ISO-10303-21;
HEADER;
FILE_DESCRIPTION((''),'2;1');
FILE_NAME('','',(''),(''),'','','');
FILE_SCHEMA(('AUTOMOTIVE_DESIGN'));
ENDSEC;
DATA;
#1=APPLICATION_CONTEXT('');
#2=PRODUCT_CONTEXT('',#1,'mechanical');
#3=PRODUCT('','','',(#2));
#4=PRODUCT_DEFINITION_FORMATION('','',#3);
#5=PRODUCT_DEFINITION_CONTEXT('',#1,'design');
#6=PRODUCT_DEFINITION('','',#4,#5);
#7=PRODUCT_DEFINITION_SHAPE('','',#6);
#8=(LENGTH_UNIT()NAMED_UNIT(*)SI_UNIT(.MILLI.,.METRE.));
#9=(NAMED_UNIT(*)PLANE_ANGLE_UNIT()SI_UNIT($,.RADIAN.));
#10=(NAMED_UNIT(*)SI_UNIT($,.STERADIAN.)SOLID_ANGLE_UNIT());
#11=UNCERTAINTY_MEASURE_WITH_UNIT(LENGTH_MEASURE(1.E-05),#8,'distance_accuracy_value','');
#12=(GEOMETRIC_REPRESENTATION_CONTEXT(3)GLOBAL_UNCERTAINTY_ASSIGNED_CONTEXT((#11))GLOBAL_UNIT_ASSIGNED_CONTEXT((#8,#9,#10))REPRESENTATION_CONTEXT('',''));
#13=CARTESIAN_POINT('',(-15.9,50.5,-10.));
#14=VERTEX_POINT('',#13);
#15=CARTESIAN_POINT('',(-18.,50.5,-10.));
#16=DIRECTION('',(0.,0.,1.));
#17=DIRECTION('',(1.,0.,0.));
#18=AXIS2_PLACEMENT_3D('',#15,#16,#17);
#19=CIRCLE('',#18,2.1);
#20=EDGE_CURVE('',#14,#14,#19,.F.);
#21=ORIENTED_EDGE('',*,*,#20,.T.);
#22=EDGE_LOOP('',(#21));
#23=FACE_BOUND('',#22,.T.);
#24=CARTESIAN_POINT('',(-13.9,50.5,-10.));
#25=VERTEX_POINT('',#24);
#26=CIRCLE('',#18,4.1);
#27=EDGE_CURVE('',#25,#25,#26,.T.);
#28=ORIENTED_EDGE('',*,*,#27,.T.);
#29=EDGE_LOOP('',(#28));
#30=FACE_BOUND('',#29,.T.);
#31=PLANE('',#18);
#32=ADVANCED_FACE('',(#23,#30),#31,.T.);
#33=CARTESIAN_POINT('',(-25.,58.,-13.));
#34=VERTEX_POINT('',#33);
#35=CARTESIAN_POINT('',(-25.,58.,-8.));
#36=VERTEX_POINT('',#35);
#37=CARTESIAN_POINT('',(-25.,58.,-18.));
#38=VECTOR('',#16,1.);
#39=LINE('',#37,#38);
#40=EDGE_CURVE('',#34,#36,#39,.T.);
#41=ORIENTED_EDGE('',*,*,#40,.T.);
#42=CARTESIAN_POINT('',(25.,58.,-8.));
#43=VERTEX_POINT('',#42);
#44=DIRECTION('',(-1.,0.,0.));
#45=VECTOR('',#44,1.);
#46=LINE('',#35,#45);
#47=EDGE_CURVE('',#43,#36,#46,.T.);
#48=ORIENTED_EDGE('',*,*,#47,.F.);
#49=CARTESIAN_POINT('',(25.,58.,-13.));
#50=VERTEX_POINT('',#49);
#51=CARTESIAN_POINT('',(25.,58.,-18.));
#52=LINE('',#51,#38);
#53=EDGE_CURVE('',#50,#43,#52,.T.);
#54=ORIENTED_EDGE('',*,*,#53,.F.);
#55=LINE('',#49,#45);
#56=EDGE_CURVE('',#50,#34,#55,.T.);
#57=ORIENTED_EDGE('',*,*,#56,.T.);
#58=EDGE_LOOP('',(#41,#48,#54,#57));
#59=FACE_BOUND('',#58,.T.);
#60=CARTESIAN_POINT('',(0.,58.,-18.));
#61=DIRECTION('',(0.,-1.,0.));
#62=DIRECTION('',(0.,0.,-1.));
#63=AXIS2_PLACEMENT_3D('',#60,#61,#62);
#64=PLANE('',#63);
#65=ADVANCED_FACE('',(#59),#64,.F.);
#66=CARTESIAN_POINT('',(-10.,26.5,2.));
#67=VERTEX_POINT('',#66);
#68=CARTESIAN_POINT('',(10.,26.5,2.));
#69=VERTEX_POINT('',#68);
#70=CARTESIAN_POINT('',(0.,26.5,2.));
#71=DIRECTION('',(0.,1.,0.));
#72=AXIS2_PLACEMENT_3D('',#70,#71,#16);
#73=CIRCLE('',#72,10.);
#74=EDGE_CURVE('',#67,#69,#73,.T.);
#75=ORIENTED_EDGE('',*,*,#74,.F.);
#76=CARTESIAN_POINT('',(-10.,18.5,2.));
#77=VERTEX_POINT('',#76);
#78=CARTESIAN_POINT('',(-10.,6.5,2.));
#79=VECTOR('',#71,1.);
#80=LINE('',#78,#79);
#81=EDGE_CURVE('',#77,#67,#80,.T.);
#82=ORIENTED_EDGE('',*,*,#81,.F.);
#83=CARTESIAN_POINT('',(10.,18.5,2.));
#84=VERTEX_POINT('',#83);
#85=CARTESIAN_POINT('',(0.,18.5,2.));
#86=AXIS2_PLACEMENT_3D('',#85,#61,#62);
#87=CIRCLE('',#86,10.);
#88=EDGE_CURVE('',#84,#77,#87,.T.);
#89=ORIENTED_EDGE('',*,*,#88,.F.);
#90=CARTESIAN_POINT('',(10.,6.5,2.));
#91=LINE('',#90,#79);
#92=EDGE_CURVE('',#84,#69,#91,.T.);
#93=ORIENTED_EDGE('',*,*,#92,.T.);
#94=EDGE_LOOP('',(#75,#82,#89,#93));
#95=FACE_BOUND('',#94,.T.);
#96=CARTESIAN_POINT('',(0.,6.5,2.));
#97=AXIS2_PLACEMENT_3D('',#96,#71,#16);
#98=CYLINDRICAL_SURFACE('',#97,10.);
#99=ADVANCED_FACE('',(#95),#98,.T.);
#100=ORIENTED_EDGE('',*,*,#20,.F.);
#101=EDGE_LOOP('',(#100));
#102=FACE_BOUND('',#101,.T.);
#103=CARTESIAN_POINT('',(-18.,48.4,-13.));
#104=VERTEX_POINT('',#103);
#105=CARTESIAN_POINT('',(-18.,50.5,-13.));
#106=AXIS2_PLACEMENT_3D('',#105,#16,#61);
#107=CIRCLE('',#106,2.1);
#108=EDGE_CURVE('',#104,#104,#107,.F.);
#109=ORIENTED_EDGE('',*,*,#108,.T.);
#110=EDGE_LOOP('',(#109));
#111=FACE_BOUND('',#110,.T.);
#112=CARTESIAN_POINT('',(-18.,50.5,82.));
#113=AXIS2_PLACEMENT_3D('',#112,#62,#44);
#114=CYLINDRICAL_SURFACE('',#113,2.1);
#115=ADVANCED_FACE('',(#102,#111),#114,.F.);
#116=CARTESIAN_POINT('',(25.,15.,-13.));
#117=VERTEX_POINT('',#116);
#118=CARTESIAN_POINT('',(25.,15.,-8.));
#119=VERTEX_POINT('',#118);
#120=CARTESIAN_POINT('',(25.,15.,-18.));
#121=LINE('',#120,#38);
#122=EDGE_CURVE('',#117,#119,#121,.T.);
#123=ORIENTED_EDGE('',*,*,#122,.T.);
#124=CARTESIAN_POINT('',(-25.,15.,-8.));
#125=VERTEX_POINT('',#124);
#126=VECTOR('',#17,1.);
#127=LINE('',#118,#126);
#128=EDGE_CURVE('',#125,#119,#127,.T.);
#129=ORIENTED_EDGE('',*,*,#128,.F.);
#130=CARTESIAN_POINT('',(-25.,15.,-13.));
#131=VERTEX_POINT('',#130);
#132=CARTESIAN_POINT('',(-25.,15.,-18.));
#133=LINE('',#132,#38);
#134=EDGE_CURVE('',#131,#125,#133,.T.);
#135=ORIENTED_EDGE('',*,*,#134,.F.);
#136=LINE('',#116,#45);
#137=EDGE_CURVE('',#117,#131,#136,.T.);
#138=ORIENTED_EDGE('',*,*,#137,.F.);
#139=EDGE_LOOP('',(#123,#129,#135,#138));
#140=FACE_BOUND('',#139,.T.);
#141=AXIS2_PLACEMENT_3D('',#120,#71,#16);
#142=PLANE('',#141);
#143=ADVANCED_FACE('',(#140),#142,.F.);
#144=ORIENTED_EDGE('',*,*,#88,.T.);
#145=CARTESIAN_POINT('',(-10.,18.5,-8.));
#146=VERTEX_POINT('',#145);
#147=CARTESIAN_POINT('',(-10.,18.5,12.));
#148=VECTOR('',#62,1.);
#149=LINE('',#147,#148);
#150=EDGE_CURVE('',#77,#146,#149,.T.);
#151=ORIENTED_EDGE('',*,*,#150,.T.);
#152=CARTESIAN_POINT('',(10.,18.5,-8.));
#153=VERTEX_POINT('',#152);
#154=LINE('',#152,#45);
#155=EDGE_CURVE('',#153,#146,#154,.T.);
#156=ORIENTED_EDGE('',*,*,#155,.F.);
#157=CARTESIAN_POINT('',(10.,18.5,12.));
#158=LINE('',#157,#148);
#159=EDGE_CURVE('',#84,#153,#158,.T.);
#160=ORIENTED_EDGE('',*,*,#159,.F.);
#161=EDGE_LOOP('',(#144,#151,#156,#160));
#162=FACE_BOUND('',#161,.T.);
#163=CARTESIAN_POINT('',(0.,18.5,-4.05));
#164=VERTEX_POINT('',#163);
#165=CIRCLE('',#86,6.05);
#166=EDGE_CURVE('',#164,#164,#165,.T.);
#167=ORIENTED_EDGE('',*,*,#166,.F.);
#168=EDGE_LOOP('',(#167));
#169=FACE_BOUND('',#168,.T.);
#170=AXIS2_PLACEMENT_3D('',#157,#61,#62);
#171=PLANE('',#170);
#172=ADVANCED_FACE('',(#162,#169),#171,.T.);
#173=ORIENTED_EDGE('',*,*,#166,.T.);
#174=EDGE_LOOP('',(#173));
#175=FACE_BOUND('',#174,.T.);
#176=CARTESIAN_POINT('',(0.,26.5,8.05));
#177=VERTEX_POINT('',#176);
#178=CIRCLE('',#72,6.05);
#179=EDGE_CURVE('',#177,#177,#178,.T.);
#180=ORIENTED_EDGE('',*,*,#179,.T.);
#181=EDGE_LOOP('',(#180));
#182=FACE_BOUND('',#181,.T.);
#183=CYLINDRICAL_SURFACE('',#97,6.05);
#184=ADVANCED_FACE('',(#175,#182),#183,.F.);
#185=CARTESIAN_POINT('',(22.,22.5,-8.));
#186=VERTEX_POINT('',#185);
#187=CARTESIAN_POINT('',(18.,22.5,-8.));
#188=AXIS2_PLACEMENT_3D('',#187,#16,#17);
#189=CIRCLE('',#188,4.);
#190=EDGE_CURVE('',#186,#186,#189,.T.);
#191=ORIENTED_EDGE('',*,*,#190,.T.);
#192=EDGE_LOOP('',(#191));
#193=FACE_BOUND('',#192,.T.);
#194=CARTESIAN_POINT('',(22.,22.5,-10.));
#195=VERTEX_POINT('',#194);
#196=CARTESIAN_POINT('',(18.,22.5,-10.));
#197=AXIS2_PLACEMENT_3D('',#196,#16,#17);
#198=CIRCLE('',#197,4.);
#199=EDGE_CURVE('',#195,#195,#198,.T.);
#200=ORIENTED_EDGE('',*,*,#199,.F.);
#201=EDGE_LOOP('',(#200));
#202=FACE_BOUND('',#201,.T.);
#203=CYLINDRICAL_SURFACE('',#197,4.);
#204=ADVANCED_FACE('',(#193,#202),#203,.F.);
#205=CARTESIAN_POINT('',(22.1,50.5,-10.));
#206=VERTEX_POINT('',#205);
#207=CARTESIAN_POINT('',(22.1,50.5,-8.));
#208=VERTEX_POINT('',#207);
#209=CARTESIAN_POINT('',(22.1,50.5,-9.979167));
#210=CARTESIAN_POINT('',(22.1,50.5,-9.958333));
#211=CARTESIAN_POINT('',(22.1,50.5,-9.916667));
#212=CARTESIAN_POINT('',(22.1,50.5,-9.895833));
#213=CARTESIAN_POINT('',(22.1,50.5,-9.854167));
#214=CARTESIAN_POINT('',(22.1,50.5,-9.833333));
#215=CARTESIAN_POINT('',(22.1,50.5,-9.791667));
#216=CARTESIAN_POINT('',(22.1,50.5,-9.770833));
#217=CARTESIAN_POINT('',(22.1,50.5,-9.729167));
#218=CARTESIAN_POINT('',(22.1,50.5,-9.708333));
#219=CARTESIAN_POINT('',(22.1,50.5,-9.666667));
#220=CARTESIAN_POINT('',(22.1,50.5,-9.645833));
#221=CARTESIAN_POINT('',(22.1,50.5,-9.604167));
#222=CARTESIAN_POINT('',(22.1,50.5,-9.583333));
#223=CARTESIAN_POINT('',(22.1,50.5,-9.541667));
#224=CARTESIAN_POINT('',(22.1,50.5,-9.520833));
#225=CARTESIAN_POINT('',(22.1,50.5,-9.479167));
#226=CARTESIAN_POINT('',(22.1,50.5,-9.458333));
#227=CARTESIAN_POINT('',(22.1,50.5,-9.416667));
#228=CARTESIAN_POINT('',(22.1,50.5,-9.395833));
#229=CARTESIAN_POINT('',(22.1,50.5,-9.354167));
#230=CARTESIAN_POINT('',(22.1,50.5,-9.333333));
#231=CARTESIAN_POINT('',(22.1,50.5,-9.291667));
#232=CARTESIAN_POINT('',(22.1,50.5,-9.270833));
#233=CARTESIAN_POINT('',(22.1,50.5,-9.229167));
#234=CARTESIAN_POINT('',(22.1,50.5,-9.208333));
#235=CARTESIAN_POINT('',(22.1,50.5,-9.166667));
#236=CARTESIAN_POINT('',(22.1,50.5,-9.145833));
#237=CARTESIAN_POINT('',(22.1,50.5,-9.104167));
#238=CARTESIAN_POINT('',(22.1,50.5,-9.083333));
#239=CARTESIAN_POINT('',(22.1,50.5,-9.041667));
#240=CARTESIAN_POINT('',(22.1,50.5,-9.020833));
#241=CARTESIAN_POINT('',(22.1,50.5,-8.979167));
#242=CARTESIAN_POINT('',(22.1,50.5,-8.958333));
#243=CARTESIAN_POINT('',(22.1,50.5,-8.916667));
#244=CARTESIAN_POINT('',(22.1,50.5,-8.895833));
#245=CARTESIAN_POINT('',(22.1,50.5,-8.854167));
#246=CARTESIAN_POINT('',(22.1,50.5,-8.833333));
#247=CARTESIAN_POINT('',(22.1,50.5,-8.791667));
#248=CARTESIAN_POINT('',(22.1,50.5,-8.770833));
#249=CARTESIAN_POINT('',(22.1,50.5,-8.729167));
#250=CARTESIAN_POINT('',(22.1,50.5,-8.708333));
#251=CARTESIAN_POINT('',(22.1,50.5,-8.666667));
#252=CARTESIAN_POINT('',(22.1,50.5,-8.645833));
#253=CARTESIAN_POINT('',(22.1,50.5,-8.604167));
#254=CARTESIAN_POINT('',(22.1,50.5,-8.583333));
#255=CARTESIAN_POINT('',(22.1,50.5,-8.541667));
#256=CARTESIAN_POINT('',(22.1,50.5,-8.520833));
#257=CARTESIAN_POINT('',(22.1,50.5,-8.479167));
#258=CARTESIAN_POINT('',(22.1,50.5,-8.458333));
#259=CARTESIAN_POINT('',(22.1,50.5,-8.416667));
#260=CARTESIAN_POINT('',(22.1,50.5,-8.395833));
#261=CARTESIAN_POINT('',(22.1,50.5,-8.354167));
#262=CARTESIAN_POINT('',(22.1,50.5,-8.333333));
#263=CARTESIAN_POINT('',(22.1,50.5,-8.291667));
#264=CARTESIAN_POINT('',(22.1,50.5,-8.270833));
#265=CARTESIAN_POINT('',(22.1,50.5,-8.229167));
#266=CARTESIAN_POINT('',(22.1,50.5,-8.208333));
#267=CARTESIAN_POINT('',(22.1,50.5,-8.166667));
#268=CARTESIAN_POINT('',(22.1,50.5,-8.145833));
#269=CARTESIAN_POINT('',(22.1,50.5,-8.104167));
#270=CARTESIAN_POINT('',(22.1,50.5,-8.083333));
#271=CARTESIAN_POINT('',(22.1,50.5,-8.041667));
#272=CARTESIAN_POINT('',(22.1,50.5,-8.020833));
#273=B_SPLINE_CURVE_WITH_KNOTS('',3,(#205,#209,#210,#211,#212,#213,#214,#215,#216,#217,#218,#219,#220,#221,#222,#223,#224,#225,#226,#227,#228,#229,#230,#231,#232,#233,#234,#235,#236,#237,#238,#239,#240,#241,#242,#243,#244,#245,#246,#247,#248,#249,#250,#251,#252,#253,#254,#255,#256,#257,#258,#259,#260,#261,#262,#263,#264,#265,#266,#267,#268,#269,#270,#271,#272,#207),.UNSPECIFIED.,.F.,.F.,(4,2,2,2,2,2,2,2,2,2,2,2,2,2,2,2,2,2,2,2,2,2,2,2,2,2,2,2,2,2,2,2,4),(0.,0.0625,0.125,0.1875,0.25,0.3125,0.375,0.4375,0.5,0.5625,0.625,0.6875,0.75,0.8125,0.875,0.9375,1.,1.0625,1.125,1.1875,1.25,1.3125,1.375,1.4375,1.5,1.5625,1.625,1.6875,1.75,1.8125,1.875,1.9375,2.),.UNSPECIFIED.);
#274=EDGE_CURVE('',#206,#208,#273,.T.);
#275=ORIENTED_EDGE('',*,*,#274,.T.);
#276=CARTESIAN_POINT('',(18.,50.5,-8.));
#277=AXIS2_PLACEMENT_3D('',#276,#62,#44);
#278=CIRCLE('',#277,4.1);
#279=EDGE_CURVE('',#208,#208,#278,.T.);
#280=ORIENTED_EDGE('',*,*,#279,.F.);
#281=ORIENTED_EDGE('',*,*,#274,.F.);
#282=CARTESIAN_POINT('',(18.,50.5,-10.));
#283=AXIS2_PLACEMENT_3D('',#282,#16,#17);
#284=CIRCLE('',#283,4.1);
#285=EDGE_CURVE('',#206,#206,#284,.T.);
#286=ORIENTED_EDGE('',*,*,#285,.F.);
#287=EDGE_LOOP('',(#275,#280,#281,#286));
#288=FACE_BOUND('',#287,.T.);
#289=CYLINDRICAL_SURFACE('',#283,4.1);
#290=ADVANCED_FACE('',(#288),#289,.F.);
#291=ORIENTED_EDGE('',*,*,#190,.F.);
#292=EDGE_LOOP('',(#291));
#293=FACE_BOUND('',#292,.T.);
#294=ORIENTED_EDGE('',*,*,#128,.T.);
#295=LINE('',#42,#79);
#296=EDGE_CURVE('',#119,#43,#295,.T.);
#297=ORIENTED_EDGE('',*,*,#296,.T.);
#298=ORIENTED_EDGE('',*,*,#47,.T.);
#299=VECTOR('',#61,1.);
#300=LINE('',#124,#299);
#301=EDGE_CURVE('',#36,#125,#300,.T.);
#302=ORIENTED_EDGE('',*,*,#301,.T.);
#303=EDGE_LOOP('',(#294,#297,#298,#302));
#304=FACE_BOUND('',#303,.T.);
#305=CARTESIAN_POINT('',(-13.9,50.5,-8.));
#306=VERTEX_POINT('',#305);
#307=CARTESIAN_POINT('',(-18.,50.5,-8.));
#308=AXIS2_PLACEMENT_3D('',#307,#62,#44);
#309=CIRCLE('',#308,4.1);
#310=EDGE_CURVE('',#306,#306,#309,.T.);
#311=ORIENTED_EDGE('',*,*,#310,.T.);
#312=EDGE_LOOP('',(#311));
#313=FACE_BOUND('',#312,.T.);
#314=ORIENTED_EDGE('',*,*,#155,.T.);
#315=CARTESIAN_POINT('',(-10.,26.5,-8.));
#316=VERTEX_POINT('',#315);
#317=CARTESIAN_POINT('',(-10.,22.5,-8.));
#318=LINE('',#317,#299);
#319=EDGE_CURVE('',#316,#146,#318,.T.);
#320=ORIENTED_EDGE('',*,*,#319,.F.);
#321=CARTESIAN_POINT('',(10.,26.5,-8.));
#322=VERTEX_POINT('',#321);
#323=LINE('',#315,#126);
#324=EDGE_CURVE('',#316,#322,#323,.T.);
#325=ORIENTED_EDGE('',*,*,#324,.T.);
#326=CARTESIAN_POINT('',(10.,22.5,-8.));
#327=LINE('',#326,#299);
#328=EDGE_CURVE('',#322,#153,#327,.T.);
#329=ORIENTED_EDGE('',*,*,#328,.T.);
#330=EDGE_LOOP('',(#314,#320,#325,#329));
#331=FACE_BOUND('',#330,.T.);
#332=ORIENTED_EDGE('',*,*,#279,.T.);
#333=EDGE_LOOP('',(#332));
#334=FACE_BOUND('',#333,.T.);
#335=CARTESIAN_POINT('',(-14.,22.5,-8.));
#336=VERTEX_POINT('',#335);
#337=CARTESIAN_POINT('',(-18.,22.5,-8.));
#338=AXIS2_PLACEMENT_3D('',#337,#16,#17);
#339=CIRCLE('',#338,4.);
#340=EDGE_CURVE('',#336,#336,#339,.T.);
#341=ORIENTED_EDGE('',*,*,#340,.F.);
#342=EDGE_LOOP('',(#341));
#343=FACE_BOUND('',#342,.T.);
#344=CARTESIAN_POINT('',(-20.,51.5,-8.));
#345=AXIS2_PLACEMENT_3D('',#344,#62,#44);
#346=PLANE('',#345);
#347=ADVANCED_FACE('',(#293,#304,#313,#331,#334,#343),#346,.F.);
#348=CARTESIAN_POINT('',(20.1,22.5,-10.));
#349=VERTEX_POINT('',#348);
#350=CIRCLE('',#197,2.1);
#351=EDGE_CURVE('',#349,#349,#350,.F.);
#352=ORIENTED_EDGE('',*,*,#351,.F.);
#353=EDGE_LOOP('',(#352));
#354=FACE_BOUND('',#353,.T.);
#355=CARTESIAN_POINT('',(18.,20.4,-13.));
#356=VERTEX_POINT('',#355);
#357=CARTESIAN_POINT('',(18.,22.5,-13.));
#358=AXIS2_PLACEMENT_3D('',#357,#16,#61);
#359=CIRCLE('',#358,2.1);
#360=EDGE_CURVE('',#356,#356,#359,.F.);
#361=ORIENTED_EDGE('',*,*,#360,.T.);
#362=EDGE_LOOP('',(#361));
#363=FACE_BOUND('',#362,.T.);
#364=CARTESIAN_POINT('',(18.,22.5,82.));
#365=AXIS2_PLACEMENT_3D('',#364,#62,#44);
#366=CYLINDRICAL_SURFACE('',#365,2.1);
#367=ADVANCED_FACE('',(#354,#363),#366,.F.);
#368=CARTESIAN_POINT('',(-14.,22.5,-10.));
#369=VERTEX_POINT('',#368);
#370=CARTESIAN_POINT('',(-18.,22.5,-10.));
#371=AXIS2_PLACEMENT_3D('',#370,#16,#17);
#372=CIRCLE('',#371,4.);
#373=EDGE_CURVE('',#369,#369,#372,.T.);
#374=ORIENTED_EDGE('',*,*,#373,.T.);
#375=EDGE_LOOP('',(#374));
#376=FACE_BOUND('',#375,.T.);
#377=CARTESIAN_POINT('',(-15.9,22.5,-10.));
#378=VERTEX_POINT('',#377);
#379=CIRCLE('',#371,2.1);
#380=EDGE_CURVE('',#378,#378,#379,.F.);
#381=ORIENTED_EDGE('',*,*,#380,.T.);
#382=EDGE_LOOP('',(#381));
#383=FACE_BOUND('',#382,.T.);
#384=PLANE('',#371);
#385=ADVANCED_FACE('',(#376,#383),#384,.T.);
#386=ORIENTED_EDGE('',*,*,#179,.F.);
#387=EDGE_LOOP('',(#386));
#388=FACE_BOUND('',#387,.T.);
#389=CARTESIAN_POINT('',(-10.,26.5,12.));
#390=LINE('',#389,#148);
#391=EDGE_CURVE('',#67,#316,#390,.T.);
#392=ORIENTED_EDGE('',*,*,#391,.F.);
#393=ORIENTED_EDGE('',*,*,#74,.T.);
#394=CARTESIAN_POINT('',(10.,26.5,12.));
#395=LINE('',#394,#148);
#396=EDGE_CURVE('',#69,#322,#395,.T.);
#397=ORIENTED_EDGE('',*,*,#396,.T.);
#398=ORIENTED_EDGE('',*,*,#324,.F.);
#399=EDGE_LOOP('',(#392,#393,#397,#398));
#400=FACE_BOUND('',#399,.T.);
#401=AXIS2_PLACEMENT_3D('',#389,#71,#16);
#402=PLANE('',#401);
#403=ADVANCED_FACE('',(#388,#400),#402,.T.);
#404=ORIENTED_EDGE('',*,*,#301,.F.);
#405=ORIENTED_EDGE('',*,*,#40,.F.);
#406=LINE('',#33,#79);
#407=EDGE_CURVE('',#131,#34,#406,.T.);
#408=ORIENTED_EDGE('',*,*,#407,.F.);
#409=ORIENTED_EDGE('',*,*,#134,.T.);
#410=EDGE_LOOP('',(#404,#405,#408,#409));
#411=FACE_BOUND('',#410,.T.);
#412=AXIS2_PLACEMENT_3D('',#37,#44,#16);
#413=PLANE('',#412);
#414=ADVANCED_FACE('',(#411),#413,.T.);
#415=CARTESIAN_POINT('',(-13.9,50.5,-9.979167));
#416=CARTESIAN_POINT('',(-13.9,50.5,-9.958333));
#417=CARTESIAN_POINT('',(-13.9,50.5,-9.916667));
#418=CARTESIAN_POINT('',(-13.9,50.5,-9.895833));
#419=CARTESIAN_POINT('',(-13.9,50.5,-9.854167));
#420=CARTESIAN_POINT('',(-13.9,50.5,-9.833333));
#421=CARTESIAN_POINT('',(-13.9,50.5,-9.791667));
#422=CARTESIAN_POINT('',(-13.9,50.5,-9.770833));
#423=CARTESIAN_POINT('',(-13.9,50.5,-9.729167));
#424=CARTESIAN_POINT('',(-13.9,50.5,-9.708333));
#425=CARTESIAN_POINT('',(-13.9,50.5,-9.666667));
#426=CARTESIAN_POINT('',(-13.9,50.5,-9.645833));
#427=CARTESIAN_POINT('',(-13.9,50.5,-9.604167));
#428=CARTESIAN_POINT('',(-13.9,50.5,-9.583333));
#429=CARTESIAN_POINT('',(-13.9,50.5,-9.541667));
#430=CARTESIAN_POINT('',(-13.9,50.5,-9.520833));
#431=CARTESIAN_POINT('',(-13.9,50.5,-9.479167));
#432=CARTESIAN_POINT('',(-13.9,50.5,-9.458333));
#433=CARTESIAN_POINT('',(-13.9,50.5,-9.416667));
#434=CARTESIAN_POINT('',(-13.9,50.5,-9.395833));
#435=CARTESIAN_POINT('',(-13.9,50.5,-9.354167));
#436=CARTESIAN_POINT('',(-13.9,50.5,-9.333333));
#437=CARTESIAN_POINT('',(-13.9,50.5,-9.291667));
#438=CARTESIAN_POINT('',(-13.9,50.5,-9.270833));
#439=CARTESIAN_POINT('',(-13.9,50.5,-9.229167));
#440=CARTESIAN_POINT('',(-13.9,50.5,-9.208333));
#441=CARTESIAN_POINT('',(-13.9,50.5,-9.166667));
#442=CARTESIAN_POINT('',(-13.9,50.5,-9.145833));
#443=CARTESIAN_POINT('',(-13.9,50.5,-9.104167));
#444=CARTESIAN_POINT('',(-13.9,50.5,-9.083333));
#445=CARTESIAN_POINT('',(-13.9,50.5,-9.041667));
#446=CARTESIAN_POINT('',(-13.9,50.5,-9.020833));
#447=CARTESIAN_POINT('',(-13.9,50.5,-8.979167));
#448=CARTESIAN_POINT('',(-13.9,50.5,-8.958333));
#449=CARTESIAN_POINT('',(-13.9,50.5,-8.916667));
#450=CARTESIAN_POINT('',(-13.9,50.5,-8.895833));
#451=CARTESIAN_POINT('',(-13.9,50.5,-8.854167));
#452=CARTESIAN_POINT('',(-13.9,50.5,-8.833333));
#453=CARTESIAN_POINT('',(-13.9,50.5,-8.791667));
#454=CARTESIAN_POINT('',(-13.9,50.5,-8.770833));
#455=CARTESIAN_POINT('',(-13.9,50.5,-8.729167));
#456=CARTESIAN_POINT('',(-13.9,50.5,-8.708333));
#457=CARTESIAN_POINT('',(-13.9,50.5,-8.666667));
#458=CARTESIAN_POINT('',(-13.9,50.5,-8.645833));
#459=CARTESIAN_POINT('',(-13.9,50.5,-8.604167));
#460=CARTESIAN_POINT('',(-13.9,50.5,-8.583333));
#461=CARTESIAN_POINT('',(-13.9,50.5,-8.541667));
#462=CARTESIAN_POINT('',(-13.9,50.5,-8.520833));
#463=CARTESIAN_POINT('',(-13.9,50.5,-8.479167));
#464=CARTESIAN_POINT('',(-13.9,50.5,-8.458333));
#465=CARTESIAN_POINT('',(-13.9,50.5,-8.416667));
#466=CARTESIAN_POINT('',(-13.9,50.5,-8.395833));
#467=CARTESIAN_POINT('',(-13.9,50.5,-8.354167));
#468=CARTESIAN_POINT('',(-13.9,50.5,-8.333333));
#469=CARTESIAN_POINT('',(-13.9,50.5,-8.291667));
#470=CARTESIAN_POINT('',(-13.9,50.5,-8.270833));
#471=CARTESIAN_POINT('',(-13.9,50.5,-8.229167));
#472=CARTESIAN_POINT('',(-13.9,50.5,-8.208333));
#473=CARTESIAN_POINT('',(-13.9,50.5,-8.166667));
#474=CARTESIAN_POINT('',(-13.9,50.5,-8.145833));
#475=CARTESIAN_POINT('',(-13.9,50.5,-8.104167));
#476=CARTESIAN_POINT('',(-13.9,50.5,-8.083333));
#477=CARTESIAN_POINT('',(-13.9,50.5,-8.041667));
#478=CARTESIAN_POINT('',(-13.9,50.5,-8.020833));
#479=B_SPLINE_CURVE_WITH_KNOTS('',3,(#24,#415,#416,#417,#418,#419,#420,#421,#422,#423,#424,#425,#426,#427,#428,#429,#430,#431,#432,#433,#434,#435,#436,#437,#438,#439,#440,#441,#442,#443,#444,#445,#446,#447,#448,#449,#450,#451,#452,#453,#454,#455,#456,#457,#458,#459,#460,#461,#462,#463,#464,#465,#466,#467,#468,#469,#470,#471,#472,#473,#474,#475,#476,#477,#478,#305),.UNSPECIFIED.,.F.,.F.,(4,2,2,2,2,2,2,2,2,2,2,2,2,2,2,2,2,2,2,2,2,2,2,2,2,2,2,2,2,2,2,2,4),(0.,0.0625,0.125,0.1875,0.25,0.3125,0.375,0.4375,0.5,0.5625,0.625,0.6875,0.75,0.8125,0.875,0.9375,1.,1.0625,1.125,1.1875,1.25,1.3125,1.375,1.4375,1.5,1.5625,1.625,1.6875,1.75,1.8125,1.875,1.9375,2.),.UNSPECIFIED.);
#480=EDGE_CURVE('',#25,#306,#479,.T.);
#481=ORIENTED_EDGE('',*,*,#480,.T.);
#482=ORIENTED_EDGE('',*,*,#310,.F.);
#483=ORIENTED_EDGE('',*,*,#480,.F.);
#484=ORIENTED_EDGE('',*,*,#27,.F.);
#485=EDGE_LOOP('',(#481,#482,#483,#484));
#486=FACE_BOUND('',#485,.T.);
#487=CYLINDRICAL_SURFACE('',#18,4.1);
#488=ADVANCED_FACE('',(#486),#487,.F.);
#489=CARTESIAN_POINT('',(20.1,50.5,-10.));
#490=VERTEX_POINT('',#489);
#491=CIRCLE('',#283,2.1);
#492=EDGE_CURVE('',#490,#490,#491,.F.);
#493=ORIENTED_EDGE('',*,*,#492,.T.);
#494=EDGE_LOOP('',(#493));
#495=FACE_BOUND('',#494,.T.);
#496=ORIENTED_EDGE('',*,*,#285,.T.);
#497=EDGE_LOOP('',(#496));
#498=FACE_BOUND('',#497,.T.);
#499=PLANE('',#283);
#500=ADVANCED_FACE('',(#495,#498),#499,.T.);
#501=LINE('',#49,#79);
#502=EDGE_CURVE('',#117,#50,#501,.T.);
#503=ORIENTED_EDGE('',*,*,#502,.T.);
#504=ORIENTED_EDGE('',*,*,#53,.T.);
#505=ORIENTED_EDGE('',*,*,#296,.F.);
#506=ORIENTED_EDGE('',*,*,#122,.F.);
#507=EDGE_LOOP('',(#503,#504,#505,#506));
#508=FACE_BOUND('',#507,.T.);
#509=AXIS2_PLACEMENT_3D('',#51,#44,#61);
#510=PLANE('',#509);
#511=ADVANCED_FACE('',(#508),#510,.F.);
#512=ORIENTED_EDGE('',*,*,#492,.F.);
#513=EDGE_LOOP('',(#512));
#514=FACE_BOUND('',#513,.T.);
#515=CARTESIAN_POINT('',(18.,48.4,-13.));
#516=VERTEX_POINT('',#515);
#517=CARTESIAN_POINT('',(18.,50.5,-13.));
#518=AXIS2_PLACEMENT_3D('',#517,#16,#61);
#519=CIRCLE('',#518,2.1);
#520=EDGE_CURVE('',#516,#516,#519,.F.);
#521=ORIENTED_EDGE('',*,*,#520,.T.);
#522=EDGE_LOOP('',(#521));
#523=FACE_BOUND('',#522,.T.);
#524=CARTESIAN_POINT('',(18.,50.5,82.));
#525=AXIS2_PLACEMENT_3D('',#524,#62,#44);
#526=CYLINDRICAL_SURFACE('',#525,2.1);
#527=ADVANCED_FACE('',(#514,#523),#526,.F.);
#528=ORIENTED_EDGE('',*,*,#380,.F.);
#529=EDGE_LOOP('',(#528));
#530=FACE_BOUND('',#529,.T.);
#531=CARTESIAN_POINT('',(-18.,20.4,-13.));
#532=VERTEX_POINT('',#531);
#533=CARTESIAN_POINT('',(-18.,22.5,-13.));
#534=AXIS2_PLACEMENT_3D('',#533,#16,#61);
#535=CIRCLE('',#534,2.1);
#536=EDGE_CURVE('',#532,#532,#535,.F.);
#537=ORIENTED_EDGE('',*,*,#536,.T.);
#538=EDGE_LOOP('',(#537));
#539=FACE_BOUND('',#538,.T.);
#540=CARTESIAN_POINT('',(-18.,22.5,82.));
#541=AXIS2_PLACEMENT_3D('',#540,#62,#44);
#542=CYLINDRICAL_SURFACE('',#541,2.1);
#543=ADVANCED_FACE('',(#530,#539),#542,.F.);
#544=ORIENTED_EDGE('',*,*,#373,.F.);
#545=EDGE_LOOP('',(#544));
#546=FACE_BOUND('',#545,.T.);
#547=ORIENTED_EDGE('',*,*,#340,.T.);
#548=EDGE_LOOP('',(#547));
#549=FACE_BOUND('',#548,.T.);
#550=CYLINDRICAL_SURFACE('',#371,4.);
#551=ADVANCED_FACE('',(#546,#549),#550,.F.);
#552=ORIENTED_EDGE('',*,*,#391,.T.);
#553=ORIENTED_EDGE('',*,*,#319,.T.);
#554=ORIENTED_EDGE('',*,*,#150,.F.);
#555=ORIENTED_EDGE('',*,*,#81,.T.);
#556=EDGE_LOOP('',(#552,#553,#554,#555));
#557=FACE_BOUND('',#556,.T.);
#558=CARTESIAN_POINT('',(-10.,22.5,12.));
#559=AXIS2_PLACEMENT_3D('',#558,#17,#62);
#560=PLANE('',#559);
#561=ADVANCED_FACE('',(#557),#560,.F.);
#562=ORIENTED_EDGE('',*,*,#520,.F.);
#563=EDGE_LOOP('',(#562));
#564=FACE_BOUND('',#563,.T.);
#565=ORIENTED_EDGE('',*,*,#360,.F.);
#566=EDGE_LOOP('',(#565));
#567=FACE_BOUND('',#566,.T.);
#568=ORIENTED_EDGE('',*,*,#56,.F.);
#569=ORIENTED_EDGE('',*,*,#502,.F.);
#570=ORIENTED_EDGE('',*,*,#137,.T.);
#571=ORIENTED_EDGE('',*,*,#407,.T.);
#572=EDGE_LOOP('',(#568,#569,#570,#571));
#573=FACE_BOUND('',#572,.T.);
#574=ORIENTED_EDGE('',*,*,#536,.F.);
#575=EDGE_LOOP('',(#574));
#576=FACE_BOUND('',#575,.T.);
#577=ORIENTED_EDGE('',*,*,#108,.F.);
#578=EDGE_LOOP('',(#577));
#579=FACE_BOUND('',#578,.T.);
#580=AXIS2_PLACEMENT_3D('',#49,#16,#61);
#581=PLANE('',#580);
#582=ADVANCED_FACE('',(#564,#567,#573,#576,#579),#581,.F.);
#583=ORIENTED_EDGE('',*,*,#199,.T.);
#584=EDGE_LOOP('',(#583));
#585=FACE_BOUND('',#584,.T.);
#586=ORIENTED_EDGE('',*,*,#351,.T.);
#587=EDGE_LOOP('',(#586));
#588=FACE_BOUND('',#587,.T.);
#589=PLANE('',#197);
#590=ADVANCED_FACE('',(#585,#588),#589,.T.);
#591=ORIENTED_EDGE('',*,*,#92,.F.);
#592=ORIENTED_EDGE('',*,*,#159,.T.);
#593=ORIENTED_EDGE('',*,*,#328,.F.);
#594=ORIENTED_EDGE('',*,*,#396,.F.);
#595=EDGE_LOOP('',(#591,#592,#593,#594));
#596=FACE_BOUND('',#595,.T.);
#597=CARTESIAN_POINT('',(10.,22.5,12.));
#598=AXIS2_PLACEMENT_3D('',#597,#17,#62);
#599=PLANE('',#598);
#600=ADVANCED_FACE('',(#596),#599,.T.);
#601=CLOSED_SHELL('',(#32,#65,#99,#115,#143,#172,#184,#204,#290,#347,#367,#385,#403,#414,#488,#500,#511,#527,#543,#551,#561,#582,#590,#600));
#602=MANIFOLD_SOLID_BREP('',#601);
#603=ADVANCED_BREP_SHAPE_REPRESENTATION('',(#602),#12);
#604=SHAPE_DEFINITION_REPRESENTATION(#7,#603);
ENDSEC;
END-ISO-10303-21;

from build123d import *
from build123d.topology import SkipClean

# Parameters (mm, degrees)
SKETCH_1_R           = 2
EXTRUDE_1_DEPTH      = 5
EXTRUDE_5_DEPTH      = 18
SKETCH_6_W           = 40
SKETCH_6_H           = 5
EXTRUDE_6_DEPTH      = 25
SKETCH_7_W           = 40
SKETCH_7_H           = 5
EXTRUDE_7_DEPTH      = 27
SKETCH_9_R           = 10
CUT_EXTRUDE_4_DEPTH  = 50
SKETCH_10_W          = 8
SKETCH_10_H          = 5
EXTRUDE_9_DEPTH      = 20
CUT_EXTRUDE_8_DEPTH  = 20
CUT_EXTRUDE_9_DEPTH  = 20
SKETCH_16_W          = 40
SKETCH_16_H          = 4
EXTRUDE_10_DEPTH     = 5
SKETCH_17_W          = 40
SKETCH_17_H          = 4
EXTRUDE_12_DEPTH     = 12
SKETCH_18_R          = 1.5
CUT_EXTRUDE_10_DEPTH = 10
CUT_EXTRUDE_11_DEPTH = 10
SKETCH_22_W          = 39.912411086
SKETCH_22_H          = 12
CUT_EXTRUDE_12_DEPTH = 10
SKETCH_23_W          = 1.771441315
SKETCH_23_H          = 1.605869394
CUT_EXTRUDE_13_DEPTH = 10
SKETCH_24_W          = 40
SKETCH_24_H          = 4
EXTRUDE_13_DEPTH     = 7
SKETCH_26_R          = 1.5
CUT_EXTRUDE_14_DEPTH = 7
SKETCH_27_W          = 8
SKETCH_27_H          = 26.5
EXTRUDE_14_DEPTH     = 5
SKETCH_28_W          = 8
SKETCH_28_H          = 25
EXTRUDE_15_DEPTH     = 5
SKETCH_30_W          = 8
SKETCH_30_H          = 1.5
CUT_EXTRUDE_15_DEPTH = 5
SKETCH_31_R          = 2.52
CUT_EXTRUDE_16_DEPTH = 5
SKETCH_32_R          = 2.52
CUT_EXTRUDE_17_DEPTH = 5
CUT_EXTRUDE_18_DEPTH = 5
SKETCH_2_R           = 4
CUT_EXTRUDE_19_DEPTH = 3
SKETCH_35_W          = 4
SKETCH_35_H          = 12
CUT_EXTRUDE_20_DEPTH = 100
SKETCH_37_W          = 50
SKETCH_37_H          = 43
CUT_EXTRUDE_21_DEPTH = 100
SKETCH_38_W          = 50
SKETCH_38_H          = 43
SKETCH_38_R          = 10
EXTRUDE_20_DEPTH     = 5
SKETCH_39_W          = 50
SKETCH_39_H          = 43
SKETCH_39_W_2        = 40
SKETCH_39_H_2        = 30
EXTRUDE_21_DEPTH     = 5
CUT_EXTRUDE_START    = -100
SKETCH_41_R          = 2.1
SKETCH_41_R_2        = 10
CUT_EXTRUDE_23_DEPTH = 100
SKETCH_42_W          = 6
SKETCH_42_H          = 5
CUT_EXTRUDE_24_DEPTH = 13
SKETCH_43_R          = 4.1
CUT_EXTRUDE_27_DEPTH = 29
EXTRUDE_START        = 27
EXTRUDE_22_DEPTH     = 27
EXTRUDE_23_DEPTH     = 27
SKETCH_46_W          = 28
SKETCH_46_H          = 0.25
EXTRUDE_24_DEPTH     = 20
SKETCH_47_R          = 4
CUT_EXTRUDE_28_DEPTH = 2
CUT_EXTRUDE_29_DEPTH = 10
CUT_EXTRUDE_30_DEPTH = 10
SKETCH_50_W          = 27
SKETCH_50_H          = 11.6
SKETCH_50_H_2        = 10.600731696
SKETCH_50_W_2        = 5
SKETCH_50_H_3        = 9.36628082
CUT_EXTRUDE_31_DEPTH = 60
SKETCH_51_R          = 10
SKETCH_51_W          = 5.257466337
SKETCH_51_H          = 20
SKETCH_51_W_2        = 5.257304599
EXTRUDE_25_DEPTH     = 10
SKETCH_52_W          = 5
SKETCH_52_H          = 43
CUT_EXTRUDE_32_DEPTH = 50
EXTRUDE_26_DEPTH     = 20
SKETCH_57_R          = 6.05
CUT_EXTRUDE_33_DEPTH = 20


with BuildPart() as part:
    # 草图1 → 凸台-拉伸1 (new body)
    with BuildSketch(Plane.XY):
        Polygon((0, 21.5), (25, 21.5), (25, -21.5), (-25, -21.5), (-25, 21.5), align=None)
        with Locations((-18, 14)):
            Circle(SKETCH_1_R, mode=Mode.SUBTRACT)
        with Locations((-18, -14)):
            Circle(SKETCH_1_R, mode=Mode.SUBTRACT)
        with Locations((18, -14)):
            Circle(SKETCH_1_R, mode=Mode.SUBTRACT)
        with Locations((18, 14)):
            Circle(SKETCH_1_R, mode=Mode.SUBTRACT)
    extrude(amount=EXTRUDE_1_DEPTH)

    # 草图5 → 凸台-拉伸5 (add)
    with BuildSketch(Plane.XY.offset(5)):
        Polygon((0, 26.5), (20, 26.5), (20, 21.5), (-20, 21.5), (-20, 26.5), align=None)
    extrude(amount=-EXTRUDE_5_DEPTH)

    # 草图6 → 凸台-拉伸6 (add)
    with BuildSketch(Plane(origin=(0, 26.5, 0), x_dir=(1, 0, 0), z_dir=(0, 1, 0))):
        with Locations((0, 10.5)):
            Rectangle(SKETCH_6_W, SKETCH_6_H)
    extrude(amount=EXTRUDE_6_DEPTH)

    # 草图7 → 凸台-拉伸7 (add)
    with BuildSketch(Plane.XY.offset(-8)):
        with Locations((0, 49)):
            Rectangle(SKETCH_7_W, SKETCH_7_H)
    extrude(amount=EXTRUDE_7_DEPTH)

    # 草图9 → 切除-拉伸4 (cut)
    with BuildSketch(Plane(origin=(0, 0, 0), x_dir=(-1, 0, 0), z_dir=(0, 0, -1))):
        Circle(SKETCH_9_R)
    extrude(amount=-CUT_EXTRUDE_4_DEPTH, mode=Mode.SUBTRACT)

    # 草图10 → 凸台-拉伸9 (add)
    with BuildSketch(Plane(origin=(0, 51.5, 0), x_dir=(1, 0, 0), z_dir=(0, 1, 0))):
        with Locations((-24, -16.5)):
            Rectangle(SKETCH_10_W, SKETCH_10_H)
        with Locations((24, -16.5)):
            Rectangle(SKETCH_10_W, SKETCH_10_H)
    extrude(amount=-EXTRUDE_9_DEPTH)

    # 草图12 → 切除-拉伸8 (cut)
    with BuildSketch(Plane(origin=(0, 0, 14), x_dir=(-1, 0, 0), z_dir=(0, 0, -1))):
        with BuildLine():
            Line((28, 46), (28, 47))
            Line((28, 47), (27.949489743, 47))
            ThreePointArc((27.949489743, 47), (23, 46.5), (27.949489743, 46))
            Line((27.949489743, 46), (28, 46))
        make_face()
        with BuildLine():
            Line((27.949489743, 36), (28, 36))
            Line((28, 36), (28, 37))
            Line((28, 37), (27.949489743, 37))
            ThreePointArc((27.949489743, 37), (23, 36.5), (27.949489743, 36))
        make_face()
    extrude(amount=-CUT_EXTRUDE_8_DEPTH, mode=Mode.SUBTRACT)

    # 草图15 → 切除-拉伸9 (cut)
    with BuildSketch(Plane(origin=(0, 0, 14), x_dir=(-1, 0, 0), z_dir=(0, 0, -1))):
        with BuildLine():
            ThreePointArc((-27.949489743, 46), (-23, 46.5), (-27.949489743, 47))
            Line((-27.949489743, 47), (-28, 47))
            Line((-28, 47), (-28, 46))
            Line((-28, 46), (-27.949489743, 46))
        make_face()
        with BuildLine():
            Line((-27.949489743, 37), (-28, 37))
            Line((-28, 37), (-28, 36))
            Line((-28, 36), (-27.949489743, 36))
            ThreePointArc((-27.949489743, 36), (-23, 36.5), (-27.949489743, 37))
        make_face()
    extrude(amount=-CUT_EXTRUDE_9_DEPTH, mode=Mode.SUBTRACT)

    # 草图16 → 凸台-拉伸10 (add)
    with BuildSketch(Plane(origin=(0, 51.5, 0), x_dir=(1, 0, 0), z_dir=(0, 1, 0))):
        with Locations((0, -21)):
            Rectangle(SKETCH_16_W, SKETCH_16_H)
    extrude(amount=-EXTRUDE_10_DEPTH)

    # 草图17 → 凸台-拉伸12 (add)
    with BuildSketch(Plane(origin=(0, 51.5, 0), x_dir=(1, 0, 0), z_dir=(0, 1, 0))):
        with Locations((0, -21)):
            Rectangle(SKETCH_17_W, SKETCH_17_H)
    extrude(amount=EXTRUDE_12_DEPTH)

    # 草图18 → 切除-拉伸10 (cut)
    with BuildSketch(Plane(origin=(0, 0, 19), x_dir=(-1, 0, 0), z_dir=(0, 0, -1))):
        with Locations((6, 59.5)):
            Circle(SKETCH_18_R)
        with Locations((13, 59.5)):
            Circle(SKETCH_18_R)
    extrude(amount=-CUT_EXTRUDE_10_DEPTH, mode=Mode.SUBTRACT)

    # 草图20 → 切除-拉伸11 (cut)
    with BuildSketch(Plane.XY.offset(23)):
        with BuildLine():
            ThreePointArc((8, 63.5), (16.485281374, 59.985281374), (20, 51.5))
            Line((20, 51.5), (20, 63.5))
            Line((20, 63.5), (8, 63.5))
        make_face()
    extrude(amount=-CUT_EXTRUDE_11_DEPTH, mode=Mode.SUBTRACT)

    # 草图22 → 切除-拉伸12 (cut)
    with BuildSketch(Plane.XY.offset(23)):
        with Locations((-0.043794457, 57.5)):
            Rectangle(SKETCH_22_W, SKETCH_22_H)
    extrude(amount=-CUT_EXTRUDE_12_DEPTH, mode=Mode.SUBTRACT)

    # 草图23 → 切除-拉伸13 (cut)
    with BuildSketch(Plane.XY.offset(23)):
        with Locations((20.269466875, 52.302934697)):
            Rectangle(SKETCH_23_W, SKETCH_23_H)
    extrude(amount=-CUT_EXTRUDE_13_DEPTH, mode=Mode.SUBTRACT)

    # 草图24 → 凸台-拉伸13 (add)
    with BuildSketch(Plane(origin=(0, 51.5, 0), x_dir=(1, 0, 0), z_dir=(0, 1, 0))):
        with Locations((0, -21)):
            Rectangle(SKETCH_24_W, SKETCH_24_H)
    extrude(amount=EXTRUDE_13_DEPTH)

    # 草图26 → 切除-拉伸14 (cut)
    with BuildSketch(Plane.XY.offset(23)):
        with Locations((-13, 54.5)):
            Circle(SKETCH_26_R)
        with Locations((-6, 54.5)):
            Circle(SKETCH_26_R)
    extrude(amount=-CUT_EXTRUDE_14_DEPTH, mode=Mode.SUBTRACT)

    # 草图27 → 凸台-拉伸14 (add)
    with BuildSketch(Plane.XY.offset(19)):
        with Locations((24, 38.25)):
            Rectangle(SKETCH_27_W, SKETCH_27_H)
    extrude(amount=-EXTRUDE_14_DEPTH)

    # 草图28 → 凸台-拉伸15 (add)
    with BuildSketch(Plane.XY.offset(19)):
        with Locations((-24, 39)):
            Rectangle(SKETCH_28_W, SKETCH_28_H)
    extrude(amount=-EXTRUDE_15_DEPTH)

    # 草图30 → 切除-拉伸15 (cut)
    with BuildSketch(Plane.XY.offset(19)):
        with Locations((24, 25.75)):
            Rectangle(SKETCH_30_W, SKETCH_30_H)
    extrude(amount=-CUT_EXTRUDE_15_DEPTH, mode=Mode.SUBTRACT)

    # 草图31 → 切除-拉伸16 (cut)
    with BuildSketch(Plane.XY.offset(19)):
        with Locations((25.5, 41.5)):
            Circle(SKETCH_31_R)
        with Locations((25.5, 31.5)):
            Circle(SKETCH_31_R)
    extrude(amount=-CUT_EXTRUDE_16_DEPTH, mode=Mode.SUBTRACT)

    # 草图32 → 切除-拉伸17 (cut)
    with BuildSketch(Plane.XY.offset(19)):
        with Locations((-25.5, 41.5)):
            Circle(SKETCH_32_R)
        with Locations((-25.5, 31.5)):
            Circle(SKETCH_32_R)
    extrude(amount=-CUT_EXTRUDE_17_DEPTH, mode=Mode.SUBTRACT)

    # 草图33 → 切除-拉伸18 (cut)
    with BuildSketch(Plane(origin=(0, 0, 19), x_dir=(-1, 0, 0), z_dir=(0, 0, -1))):
        with BuildLine():
            Line((-20, 58.5), (-20, 51.5))
            ThreePointArc((-20, 51.5), (-17.949747468, 56.449747468), (-13, 58.5))
            Line((-13, 58.5), (-20, 58.5))
        make_face()
        with BuildLine():
            Line((20, 58.5), (13, 58.5))
            ThreePointArc((13, 58.5), (17.949747468, 56.449747468), (20, 51.5))
            Line((20, 51.5), (20, 58.5))
        make_face()
    extrude(amount=-CUT_EXTRUDE_18_DEPTH, mode=Mode.SUBTRACT)

    # 草图2 → 切除-拉伸19 (cut)
    with BuildSketch(Plane.XY.offset(5)):
        with Locations((18, 14)):
            Circle(SKETCH_2_R)
        with Locations((-18, 14)):
            Circle(SKETCH_2_R)
        with Locations((-18, -14)):
            Circle(SKETCH_2_R)
        with Locations((18, -14)):
            Circle(SKETCH_2_R)
    extrude(amount=-CUT_EXTRUDE_19_DEPTH, mode=Mode.SUBTRACT)

    # 草图35 → 切除-拉伸20 (cut)
    with BuildSketch(Plane.ZY.offset(20)):
        with Locations((21, 52.5)):
            Rectangle(SKETCH_35_W, SKETCH_35_H)
    extrude(amount=-CUT_EXTRUDE_20_DEPTH, mode=Mode.SUBTRACT)

    # 草图37 → 切除-拉伸21 (cut)
    with BuildSketch(Plane.XY.offset(5)):
        Rectangle(SKETCH_37_W, SKETCH_37_H)
    extrude(amount=-CUT_EXTRUDE_21_DEPTH, mode=Mode.SUBTRACT)

    # 草图38 → 凸台-拉伸20 (add)
    with BuildSketch(Plane(origin=(0, 0, -13), x_dir=(-1, 0, 0), z_dir=(0, 0, -1))):
        with Locations((0, 36.5)):
            Rectangle(SKETCH_38_W, SKETCH_38_H)
        with Locations((0, 36.5)):
            Circle(SKETCH_38_R, mode=Mode.SUBTRACT)
    extrude(amount=EXTRUDE_20_DEPTH)

    # 草图39 → 凸台-拉伸21 (add)
    with BuildSketch(Plane.XY.offset(-13)):
        with Locations((0, 36.5)):
            Rectangle(SKETCH_39_W, SKETCH_39_H)
        with Locations((0, 36.5)):
            Rectangle(SKETCH_39_W_2, SKETCH_39_H_2, mode=Mode.SUBTRACT)
    extrude(amount=EXTRUDE_21_DEPTH)

    # 草图41 → 切除-拉伸23 (cut)
    with BuildSketch(Plane(origin=(0, 0, -18), x_dir=(-1, 0, 0), z_dir=(0, 0, -1)).offset(CUT_EXTRUDE_START)):
        with Locations((-18, 50.5)):
            Circle(SKETCH_41_R)
        with Locations((18, 50.5)):
            Circle(SKETCH_41_R)
        with Locations((18, 22.5)):
            Circle(SKETCH_41_R)
        with Locations((-18, 22.5)):
            Circle(SKETCH_41_R)
        with Locations(Location((0, 36.5, 0), (0, 0, 270))):
            Circle(SKETCH_41_R_2)
    extrude(amount=CUT_EXTRUDE_23_DEPTH, mode=Mode.SUBTRACT)

    # 草图42 → 切除-拉伸24 (cut)
    with BuildSketch(Plane.XY.offset(5)):
        with Locations((-17, 24)):
            Rectangle(SKETCH_42_W, SKETCH_42_H)
        with Locations((17, 24)):
            Rectangle(SKETCH_42_W, SKETCH_42_H)
    extrude(amount=-CUT_EXTRUDE_24_DEPTH, mode=Mode.SUBTRACT)

    # 草图43 → 切除-拉伸27 (cut)
    with BuildSketch(Plane.XY.offset(19)):
        with Locations((-18, 50.5)):
            Circle(SKETCH_43_R)
        with Locations((18, 50.5)):
            Circle(SKETCH_43_R)
    extrude(amount=-CUT_EXTRUDE_27_DEPTH, mode=Mode.SUBTRACT)

    # 草图44 → 凸台-拉伸22 (add)
    with SkipClean():  # the faces are left unmerged after this step: merging them gives an invalid solid
        with BuildSketch(Plane.XY.offset(-8).offset(EXTRUDE_START)):
            with BuildLine():
                Line((-25, 46.5), (-20, 46.5))
                Line((-20, 46.5), (-20, 46.920893966))
                ThreePointArc((-20, 46.920893966), (-22.1, 50.5), (-20, 54.079106034))
                Line((-20, 54.079106034), (-20, 58))
                Line((-20, 58), (-25, 58))
                Line((-25, 58), (-25, 46.5))
            make_face()
        extrude(amount=-EXTRUDE_22_DEPTH)

    # 草图45 → 凸台-拉伸23 (add)
    with SkipClean():  # the faces are left unmerged after this step: merging them gives an invalid solid
        with BuildSketch(Plane.XY.offset(-8).offset(EXTRUDE_START)):
            with BuildLine():
                Line((18.9, 46.5), (25, 46.5))
                Line((25, 46.5), (25, 58))
                Line((25, 58), (20, 58))
                Line((20, 58), (20, 54.079106034))
                ThreePointArc((20, 54.079106034), (22.057488307, 49.911112372), (18.9, 46.5))
            make_face()
        extrude(amount=-EXTRUDE_23_DEPTH)

    # 草图46 → 凸台-拉伸24 (add)
    with SkipClean():  # the faces are left unmerged after this step: merging them gives an invalid solid
        with BuildSketch(Plane.XY.offset(5)):
            with Locations((0, 26.625)):
                Rectangle(SKETCH_46_W, SKETCH_46_H)
        extrude(amount=-EXTRUDE_24_DEPTH)

    # 草图47 → 切除-拉伸28 (cut)
    with SkipClean():  # the faces are left unmerged after this step: merging them gives an invalid solid
        with BuildSketch(Plane.XY.offset(-8)):
            with Locations((-18, 22.5)):
                Circle(SKETCH_47_R)
            with Locations((18, 22.5)):
                Circle(SKETCH_47_R)
        extrude(amount=-CUT_EXTRUDE_28_DEPTH, mode=Mode.SUBTRACT)

    # 草图48 → 切除-拉伸29 (cut)
    with SkipClean():  # the faces are left unmerged after this step: merging them gives an invalid solid
        with BuildSketch(Plane.XY.offset(-8)):
            with BuildLine():
                Line((-25, 46.5), (-25, 26.5))
                ThreePointArc((-25, 26.5), (-19.999999498, 36.5), (-25, 46.5))
            make_face()
        extrude(amount=-CUT_EXTRUDE_29_DEPTH, mode=Mode.SUBTRACT)

    # 草图49 → 切除-拉伸30 (cut)
    with SkipClean():  # the faces are left unmerged after this step: merging them gives an invalid solid
        with BuildSketch(Plane.XY.offset(-8)):
            with BuildLine():
                Line((25, 46.5), (25, 26.5))
                ThreePointArc((25, 26.5), (20, 36.5), (25, 46.5))
            make_face()
        extrude(amount=-CUT_EXTRUDE_30_DEPTH, mode=Mode.SUBTRACT)

    # 草图50 → 切除-拉伸31 (cut)
    with BuildSketch(Plane.ZY.offset(28)):
        with Locations((5.5, 52.2)):
            Rectangle(SKETCH_50_W, SKETCH_50_H)
        Polygon((-8, 26.5), (19, 26.5), (19, 31.81685959), (14, 31.81685959), (14, 41.18314041), (19, 41.18314041), (19, 46.4), (-8, 46.4), align=None)
        with Locations((5.5, 21.199634152)):
            Rectangle(SKETCH_50_W, SKETCH_50_H_2)
        with Locations((16.5, 36.5)):
            Rectangle(SKETCH_50_W_2, SKETCH_50_H_3)
    extrude(amount=-CUT_EXTRUDE_31_DEPTH, mode=Mode.SUBTRACT)

    # 草图51 → 凸台-拉伸25 (add)
    with BuildSketch(Plane.XY.offset(-8)):
        with Locations((0, 36.5)):
            Circle(SKETCH_51_R)
        with Locations((-22.371266832, 36.5)):
            Rectangle(SKETCH_51_W, SKETCH_51_H)
        with Locations((22.371347701, 36.5)):
            Rectangle(SKETCH_51_W_2, SKETCH_51_H)
    extrude(amount=-EXTRUDE_25_DEPTH)

    # 草图52 → 切除-拉伸32 (cut)
    with BuildSketch(Plane.ZY.offset(25)):
        with Locations((-15.5, 36.5)):
            Rectangle(SKETCH_52_W, SKETCH_52_H)
    extrude(amount=-CUT_EXTRUDE_32_DEPTH, mode=Mode.SUBTRACT)

    # 草图53 → 凸台-拉伸26 (add)
    with BuildSketch(Plane.XY.offset(-8)):
        Polygon((-10, 22.5), (-10, 26.5), (10, 26.5), (10, 22.5), (10, 18.5), (-10, 18.5), align=None)
    extrude(amount=EXTRUDE_26_DEPTH)

    # 草图57 → 切除-拉伸33 (cut)
    with BuildSketch(Plane(origin=(0, 26.5, 0), x_dir=(1, 0, 0), z_dir=(0, 1, 0))):
        with Locations(Location((0, -2, 0), (0, 0, 270))):
            Circle(SKETCH_57_R)
        with BuildLine():
            ThreePointArc((0, -12), (-7.071067812, -9.071067812), (-10, -2))
            Line((-10, -2), (-10, -12))
            Line((-10, -12), (0, -12))
        make_face()
        with BuildLine():
            ThreePointArc((10, -2), (7.071067812, -9.071067812), (0, -12))
            Line((0, -12), (10, -12))
            Line((10, -12), (10, -2))
        make_face()
    extrude(amount=-CUT_EXTRUDE_33_DEPTH, mode=Mode.SUBTRACT)


solid = part.part
